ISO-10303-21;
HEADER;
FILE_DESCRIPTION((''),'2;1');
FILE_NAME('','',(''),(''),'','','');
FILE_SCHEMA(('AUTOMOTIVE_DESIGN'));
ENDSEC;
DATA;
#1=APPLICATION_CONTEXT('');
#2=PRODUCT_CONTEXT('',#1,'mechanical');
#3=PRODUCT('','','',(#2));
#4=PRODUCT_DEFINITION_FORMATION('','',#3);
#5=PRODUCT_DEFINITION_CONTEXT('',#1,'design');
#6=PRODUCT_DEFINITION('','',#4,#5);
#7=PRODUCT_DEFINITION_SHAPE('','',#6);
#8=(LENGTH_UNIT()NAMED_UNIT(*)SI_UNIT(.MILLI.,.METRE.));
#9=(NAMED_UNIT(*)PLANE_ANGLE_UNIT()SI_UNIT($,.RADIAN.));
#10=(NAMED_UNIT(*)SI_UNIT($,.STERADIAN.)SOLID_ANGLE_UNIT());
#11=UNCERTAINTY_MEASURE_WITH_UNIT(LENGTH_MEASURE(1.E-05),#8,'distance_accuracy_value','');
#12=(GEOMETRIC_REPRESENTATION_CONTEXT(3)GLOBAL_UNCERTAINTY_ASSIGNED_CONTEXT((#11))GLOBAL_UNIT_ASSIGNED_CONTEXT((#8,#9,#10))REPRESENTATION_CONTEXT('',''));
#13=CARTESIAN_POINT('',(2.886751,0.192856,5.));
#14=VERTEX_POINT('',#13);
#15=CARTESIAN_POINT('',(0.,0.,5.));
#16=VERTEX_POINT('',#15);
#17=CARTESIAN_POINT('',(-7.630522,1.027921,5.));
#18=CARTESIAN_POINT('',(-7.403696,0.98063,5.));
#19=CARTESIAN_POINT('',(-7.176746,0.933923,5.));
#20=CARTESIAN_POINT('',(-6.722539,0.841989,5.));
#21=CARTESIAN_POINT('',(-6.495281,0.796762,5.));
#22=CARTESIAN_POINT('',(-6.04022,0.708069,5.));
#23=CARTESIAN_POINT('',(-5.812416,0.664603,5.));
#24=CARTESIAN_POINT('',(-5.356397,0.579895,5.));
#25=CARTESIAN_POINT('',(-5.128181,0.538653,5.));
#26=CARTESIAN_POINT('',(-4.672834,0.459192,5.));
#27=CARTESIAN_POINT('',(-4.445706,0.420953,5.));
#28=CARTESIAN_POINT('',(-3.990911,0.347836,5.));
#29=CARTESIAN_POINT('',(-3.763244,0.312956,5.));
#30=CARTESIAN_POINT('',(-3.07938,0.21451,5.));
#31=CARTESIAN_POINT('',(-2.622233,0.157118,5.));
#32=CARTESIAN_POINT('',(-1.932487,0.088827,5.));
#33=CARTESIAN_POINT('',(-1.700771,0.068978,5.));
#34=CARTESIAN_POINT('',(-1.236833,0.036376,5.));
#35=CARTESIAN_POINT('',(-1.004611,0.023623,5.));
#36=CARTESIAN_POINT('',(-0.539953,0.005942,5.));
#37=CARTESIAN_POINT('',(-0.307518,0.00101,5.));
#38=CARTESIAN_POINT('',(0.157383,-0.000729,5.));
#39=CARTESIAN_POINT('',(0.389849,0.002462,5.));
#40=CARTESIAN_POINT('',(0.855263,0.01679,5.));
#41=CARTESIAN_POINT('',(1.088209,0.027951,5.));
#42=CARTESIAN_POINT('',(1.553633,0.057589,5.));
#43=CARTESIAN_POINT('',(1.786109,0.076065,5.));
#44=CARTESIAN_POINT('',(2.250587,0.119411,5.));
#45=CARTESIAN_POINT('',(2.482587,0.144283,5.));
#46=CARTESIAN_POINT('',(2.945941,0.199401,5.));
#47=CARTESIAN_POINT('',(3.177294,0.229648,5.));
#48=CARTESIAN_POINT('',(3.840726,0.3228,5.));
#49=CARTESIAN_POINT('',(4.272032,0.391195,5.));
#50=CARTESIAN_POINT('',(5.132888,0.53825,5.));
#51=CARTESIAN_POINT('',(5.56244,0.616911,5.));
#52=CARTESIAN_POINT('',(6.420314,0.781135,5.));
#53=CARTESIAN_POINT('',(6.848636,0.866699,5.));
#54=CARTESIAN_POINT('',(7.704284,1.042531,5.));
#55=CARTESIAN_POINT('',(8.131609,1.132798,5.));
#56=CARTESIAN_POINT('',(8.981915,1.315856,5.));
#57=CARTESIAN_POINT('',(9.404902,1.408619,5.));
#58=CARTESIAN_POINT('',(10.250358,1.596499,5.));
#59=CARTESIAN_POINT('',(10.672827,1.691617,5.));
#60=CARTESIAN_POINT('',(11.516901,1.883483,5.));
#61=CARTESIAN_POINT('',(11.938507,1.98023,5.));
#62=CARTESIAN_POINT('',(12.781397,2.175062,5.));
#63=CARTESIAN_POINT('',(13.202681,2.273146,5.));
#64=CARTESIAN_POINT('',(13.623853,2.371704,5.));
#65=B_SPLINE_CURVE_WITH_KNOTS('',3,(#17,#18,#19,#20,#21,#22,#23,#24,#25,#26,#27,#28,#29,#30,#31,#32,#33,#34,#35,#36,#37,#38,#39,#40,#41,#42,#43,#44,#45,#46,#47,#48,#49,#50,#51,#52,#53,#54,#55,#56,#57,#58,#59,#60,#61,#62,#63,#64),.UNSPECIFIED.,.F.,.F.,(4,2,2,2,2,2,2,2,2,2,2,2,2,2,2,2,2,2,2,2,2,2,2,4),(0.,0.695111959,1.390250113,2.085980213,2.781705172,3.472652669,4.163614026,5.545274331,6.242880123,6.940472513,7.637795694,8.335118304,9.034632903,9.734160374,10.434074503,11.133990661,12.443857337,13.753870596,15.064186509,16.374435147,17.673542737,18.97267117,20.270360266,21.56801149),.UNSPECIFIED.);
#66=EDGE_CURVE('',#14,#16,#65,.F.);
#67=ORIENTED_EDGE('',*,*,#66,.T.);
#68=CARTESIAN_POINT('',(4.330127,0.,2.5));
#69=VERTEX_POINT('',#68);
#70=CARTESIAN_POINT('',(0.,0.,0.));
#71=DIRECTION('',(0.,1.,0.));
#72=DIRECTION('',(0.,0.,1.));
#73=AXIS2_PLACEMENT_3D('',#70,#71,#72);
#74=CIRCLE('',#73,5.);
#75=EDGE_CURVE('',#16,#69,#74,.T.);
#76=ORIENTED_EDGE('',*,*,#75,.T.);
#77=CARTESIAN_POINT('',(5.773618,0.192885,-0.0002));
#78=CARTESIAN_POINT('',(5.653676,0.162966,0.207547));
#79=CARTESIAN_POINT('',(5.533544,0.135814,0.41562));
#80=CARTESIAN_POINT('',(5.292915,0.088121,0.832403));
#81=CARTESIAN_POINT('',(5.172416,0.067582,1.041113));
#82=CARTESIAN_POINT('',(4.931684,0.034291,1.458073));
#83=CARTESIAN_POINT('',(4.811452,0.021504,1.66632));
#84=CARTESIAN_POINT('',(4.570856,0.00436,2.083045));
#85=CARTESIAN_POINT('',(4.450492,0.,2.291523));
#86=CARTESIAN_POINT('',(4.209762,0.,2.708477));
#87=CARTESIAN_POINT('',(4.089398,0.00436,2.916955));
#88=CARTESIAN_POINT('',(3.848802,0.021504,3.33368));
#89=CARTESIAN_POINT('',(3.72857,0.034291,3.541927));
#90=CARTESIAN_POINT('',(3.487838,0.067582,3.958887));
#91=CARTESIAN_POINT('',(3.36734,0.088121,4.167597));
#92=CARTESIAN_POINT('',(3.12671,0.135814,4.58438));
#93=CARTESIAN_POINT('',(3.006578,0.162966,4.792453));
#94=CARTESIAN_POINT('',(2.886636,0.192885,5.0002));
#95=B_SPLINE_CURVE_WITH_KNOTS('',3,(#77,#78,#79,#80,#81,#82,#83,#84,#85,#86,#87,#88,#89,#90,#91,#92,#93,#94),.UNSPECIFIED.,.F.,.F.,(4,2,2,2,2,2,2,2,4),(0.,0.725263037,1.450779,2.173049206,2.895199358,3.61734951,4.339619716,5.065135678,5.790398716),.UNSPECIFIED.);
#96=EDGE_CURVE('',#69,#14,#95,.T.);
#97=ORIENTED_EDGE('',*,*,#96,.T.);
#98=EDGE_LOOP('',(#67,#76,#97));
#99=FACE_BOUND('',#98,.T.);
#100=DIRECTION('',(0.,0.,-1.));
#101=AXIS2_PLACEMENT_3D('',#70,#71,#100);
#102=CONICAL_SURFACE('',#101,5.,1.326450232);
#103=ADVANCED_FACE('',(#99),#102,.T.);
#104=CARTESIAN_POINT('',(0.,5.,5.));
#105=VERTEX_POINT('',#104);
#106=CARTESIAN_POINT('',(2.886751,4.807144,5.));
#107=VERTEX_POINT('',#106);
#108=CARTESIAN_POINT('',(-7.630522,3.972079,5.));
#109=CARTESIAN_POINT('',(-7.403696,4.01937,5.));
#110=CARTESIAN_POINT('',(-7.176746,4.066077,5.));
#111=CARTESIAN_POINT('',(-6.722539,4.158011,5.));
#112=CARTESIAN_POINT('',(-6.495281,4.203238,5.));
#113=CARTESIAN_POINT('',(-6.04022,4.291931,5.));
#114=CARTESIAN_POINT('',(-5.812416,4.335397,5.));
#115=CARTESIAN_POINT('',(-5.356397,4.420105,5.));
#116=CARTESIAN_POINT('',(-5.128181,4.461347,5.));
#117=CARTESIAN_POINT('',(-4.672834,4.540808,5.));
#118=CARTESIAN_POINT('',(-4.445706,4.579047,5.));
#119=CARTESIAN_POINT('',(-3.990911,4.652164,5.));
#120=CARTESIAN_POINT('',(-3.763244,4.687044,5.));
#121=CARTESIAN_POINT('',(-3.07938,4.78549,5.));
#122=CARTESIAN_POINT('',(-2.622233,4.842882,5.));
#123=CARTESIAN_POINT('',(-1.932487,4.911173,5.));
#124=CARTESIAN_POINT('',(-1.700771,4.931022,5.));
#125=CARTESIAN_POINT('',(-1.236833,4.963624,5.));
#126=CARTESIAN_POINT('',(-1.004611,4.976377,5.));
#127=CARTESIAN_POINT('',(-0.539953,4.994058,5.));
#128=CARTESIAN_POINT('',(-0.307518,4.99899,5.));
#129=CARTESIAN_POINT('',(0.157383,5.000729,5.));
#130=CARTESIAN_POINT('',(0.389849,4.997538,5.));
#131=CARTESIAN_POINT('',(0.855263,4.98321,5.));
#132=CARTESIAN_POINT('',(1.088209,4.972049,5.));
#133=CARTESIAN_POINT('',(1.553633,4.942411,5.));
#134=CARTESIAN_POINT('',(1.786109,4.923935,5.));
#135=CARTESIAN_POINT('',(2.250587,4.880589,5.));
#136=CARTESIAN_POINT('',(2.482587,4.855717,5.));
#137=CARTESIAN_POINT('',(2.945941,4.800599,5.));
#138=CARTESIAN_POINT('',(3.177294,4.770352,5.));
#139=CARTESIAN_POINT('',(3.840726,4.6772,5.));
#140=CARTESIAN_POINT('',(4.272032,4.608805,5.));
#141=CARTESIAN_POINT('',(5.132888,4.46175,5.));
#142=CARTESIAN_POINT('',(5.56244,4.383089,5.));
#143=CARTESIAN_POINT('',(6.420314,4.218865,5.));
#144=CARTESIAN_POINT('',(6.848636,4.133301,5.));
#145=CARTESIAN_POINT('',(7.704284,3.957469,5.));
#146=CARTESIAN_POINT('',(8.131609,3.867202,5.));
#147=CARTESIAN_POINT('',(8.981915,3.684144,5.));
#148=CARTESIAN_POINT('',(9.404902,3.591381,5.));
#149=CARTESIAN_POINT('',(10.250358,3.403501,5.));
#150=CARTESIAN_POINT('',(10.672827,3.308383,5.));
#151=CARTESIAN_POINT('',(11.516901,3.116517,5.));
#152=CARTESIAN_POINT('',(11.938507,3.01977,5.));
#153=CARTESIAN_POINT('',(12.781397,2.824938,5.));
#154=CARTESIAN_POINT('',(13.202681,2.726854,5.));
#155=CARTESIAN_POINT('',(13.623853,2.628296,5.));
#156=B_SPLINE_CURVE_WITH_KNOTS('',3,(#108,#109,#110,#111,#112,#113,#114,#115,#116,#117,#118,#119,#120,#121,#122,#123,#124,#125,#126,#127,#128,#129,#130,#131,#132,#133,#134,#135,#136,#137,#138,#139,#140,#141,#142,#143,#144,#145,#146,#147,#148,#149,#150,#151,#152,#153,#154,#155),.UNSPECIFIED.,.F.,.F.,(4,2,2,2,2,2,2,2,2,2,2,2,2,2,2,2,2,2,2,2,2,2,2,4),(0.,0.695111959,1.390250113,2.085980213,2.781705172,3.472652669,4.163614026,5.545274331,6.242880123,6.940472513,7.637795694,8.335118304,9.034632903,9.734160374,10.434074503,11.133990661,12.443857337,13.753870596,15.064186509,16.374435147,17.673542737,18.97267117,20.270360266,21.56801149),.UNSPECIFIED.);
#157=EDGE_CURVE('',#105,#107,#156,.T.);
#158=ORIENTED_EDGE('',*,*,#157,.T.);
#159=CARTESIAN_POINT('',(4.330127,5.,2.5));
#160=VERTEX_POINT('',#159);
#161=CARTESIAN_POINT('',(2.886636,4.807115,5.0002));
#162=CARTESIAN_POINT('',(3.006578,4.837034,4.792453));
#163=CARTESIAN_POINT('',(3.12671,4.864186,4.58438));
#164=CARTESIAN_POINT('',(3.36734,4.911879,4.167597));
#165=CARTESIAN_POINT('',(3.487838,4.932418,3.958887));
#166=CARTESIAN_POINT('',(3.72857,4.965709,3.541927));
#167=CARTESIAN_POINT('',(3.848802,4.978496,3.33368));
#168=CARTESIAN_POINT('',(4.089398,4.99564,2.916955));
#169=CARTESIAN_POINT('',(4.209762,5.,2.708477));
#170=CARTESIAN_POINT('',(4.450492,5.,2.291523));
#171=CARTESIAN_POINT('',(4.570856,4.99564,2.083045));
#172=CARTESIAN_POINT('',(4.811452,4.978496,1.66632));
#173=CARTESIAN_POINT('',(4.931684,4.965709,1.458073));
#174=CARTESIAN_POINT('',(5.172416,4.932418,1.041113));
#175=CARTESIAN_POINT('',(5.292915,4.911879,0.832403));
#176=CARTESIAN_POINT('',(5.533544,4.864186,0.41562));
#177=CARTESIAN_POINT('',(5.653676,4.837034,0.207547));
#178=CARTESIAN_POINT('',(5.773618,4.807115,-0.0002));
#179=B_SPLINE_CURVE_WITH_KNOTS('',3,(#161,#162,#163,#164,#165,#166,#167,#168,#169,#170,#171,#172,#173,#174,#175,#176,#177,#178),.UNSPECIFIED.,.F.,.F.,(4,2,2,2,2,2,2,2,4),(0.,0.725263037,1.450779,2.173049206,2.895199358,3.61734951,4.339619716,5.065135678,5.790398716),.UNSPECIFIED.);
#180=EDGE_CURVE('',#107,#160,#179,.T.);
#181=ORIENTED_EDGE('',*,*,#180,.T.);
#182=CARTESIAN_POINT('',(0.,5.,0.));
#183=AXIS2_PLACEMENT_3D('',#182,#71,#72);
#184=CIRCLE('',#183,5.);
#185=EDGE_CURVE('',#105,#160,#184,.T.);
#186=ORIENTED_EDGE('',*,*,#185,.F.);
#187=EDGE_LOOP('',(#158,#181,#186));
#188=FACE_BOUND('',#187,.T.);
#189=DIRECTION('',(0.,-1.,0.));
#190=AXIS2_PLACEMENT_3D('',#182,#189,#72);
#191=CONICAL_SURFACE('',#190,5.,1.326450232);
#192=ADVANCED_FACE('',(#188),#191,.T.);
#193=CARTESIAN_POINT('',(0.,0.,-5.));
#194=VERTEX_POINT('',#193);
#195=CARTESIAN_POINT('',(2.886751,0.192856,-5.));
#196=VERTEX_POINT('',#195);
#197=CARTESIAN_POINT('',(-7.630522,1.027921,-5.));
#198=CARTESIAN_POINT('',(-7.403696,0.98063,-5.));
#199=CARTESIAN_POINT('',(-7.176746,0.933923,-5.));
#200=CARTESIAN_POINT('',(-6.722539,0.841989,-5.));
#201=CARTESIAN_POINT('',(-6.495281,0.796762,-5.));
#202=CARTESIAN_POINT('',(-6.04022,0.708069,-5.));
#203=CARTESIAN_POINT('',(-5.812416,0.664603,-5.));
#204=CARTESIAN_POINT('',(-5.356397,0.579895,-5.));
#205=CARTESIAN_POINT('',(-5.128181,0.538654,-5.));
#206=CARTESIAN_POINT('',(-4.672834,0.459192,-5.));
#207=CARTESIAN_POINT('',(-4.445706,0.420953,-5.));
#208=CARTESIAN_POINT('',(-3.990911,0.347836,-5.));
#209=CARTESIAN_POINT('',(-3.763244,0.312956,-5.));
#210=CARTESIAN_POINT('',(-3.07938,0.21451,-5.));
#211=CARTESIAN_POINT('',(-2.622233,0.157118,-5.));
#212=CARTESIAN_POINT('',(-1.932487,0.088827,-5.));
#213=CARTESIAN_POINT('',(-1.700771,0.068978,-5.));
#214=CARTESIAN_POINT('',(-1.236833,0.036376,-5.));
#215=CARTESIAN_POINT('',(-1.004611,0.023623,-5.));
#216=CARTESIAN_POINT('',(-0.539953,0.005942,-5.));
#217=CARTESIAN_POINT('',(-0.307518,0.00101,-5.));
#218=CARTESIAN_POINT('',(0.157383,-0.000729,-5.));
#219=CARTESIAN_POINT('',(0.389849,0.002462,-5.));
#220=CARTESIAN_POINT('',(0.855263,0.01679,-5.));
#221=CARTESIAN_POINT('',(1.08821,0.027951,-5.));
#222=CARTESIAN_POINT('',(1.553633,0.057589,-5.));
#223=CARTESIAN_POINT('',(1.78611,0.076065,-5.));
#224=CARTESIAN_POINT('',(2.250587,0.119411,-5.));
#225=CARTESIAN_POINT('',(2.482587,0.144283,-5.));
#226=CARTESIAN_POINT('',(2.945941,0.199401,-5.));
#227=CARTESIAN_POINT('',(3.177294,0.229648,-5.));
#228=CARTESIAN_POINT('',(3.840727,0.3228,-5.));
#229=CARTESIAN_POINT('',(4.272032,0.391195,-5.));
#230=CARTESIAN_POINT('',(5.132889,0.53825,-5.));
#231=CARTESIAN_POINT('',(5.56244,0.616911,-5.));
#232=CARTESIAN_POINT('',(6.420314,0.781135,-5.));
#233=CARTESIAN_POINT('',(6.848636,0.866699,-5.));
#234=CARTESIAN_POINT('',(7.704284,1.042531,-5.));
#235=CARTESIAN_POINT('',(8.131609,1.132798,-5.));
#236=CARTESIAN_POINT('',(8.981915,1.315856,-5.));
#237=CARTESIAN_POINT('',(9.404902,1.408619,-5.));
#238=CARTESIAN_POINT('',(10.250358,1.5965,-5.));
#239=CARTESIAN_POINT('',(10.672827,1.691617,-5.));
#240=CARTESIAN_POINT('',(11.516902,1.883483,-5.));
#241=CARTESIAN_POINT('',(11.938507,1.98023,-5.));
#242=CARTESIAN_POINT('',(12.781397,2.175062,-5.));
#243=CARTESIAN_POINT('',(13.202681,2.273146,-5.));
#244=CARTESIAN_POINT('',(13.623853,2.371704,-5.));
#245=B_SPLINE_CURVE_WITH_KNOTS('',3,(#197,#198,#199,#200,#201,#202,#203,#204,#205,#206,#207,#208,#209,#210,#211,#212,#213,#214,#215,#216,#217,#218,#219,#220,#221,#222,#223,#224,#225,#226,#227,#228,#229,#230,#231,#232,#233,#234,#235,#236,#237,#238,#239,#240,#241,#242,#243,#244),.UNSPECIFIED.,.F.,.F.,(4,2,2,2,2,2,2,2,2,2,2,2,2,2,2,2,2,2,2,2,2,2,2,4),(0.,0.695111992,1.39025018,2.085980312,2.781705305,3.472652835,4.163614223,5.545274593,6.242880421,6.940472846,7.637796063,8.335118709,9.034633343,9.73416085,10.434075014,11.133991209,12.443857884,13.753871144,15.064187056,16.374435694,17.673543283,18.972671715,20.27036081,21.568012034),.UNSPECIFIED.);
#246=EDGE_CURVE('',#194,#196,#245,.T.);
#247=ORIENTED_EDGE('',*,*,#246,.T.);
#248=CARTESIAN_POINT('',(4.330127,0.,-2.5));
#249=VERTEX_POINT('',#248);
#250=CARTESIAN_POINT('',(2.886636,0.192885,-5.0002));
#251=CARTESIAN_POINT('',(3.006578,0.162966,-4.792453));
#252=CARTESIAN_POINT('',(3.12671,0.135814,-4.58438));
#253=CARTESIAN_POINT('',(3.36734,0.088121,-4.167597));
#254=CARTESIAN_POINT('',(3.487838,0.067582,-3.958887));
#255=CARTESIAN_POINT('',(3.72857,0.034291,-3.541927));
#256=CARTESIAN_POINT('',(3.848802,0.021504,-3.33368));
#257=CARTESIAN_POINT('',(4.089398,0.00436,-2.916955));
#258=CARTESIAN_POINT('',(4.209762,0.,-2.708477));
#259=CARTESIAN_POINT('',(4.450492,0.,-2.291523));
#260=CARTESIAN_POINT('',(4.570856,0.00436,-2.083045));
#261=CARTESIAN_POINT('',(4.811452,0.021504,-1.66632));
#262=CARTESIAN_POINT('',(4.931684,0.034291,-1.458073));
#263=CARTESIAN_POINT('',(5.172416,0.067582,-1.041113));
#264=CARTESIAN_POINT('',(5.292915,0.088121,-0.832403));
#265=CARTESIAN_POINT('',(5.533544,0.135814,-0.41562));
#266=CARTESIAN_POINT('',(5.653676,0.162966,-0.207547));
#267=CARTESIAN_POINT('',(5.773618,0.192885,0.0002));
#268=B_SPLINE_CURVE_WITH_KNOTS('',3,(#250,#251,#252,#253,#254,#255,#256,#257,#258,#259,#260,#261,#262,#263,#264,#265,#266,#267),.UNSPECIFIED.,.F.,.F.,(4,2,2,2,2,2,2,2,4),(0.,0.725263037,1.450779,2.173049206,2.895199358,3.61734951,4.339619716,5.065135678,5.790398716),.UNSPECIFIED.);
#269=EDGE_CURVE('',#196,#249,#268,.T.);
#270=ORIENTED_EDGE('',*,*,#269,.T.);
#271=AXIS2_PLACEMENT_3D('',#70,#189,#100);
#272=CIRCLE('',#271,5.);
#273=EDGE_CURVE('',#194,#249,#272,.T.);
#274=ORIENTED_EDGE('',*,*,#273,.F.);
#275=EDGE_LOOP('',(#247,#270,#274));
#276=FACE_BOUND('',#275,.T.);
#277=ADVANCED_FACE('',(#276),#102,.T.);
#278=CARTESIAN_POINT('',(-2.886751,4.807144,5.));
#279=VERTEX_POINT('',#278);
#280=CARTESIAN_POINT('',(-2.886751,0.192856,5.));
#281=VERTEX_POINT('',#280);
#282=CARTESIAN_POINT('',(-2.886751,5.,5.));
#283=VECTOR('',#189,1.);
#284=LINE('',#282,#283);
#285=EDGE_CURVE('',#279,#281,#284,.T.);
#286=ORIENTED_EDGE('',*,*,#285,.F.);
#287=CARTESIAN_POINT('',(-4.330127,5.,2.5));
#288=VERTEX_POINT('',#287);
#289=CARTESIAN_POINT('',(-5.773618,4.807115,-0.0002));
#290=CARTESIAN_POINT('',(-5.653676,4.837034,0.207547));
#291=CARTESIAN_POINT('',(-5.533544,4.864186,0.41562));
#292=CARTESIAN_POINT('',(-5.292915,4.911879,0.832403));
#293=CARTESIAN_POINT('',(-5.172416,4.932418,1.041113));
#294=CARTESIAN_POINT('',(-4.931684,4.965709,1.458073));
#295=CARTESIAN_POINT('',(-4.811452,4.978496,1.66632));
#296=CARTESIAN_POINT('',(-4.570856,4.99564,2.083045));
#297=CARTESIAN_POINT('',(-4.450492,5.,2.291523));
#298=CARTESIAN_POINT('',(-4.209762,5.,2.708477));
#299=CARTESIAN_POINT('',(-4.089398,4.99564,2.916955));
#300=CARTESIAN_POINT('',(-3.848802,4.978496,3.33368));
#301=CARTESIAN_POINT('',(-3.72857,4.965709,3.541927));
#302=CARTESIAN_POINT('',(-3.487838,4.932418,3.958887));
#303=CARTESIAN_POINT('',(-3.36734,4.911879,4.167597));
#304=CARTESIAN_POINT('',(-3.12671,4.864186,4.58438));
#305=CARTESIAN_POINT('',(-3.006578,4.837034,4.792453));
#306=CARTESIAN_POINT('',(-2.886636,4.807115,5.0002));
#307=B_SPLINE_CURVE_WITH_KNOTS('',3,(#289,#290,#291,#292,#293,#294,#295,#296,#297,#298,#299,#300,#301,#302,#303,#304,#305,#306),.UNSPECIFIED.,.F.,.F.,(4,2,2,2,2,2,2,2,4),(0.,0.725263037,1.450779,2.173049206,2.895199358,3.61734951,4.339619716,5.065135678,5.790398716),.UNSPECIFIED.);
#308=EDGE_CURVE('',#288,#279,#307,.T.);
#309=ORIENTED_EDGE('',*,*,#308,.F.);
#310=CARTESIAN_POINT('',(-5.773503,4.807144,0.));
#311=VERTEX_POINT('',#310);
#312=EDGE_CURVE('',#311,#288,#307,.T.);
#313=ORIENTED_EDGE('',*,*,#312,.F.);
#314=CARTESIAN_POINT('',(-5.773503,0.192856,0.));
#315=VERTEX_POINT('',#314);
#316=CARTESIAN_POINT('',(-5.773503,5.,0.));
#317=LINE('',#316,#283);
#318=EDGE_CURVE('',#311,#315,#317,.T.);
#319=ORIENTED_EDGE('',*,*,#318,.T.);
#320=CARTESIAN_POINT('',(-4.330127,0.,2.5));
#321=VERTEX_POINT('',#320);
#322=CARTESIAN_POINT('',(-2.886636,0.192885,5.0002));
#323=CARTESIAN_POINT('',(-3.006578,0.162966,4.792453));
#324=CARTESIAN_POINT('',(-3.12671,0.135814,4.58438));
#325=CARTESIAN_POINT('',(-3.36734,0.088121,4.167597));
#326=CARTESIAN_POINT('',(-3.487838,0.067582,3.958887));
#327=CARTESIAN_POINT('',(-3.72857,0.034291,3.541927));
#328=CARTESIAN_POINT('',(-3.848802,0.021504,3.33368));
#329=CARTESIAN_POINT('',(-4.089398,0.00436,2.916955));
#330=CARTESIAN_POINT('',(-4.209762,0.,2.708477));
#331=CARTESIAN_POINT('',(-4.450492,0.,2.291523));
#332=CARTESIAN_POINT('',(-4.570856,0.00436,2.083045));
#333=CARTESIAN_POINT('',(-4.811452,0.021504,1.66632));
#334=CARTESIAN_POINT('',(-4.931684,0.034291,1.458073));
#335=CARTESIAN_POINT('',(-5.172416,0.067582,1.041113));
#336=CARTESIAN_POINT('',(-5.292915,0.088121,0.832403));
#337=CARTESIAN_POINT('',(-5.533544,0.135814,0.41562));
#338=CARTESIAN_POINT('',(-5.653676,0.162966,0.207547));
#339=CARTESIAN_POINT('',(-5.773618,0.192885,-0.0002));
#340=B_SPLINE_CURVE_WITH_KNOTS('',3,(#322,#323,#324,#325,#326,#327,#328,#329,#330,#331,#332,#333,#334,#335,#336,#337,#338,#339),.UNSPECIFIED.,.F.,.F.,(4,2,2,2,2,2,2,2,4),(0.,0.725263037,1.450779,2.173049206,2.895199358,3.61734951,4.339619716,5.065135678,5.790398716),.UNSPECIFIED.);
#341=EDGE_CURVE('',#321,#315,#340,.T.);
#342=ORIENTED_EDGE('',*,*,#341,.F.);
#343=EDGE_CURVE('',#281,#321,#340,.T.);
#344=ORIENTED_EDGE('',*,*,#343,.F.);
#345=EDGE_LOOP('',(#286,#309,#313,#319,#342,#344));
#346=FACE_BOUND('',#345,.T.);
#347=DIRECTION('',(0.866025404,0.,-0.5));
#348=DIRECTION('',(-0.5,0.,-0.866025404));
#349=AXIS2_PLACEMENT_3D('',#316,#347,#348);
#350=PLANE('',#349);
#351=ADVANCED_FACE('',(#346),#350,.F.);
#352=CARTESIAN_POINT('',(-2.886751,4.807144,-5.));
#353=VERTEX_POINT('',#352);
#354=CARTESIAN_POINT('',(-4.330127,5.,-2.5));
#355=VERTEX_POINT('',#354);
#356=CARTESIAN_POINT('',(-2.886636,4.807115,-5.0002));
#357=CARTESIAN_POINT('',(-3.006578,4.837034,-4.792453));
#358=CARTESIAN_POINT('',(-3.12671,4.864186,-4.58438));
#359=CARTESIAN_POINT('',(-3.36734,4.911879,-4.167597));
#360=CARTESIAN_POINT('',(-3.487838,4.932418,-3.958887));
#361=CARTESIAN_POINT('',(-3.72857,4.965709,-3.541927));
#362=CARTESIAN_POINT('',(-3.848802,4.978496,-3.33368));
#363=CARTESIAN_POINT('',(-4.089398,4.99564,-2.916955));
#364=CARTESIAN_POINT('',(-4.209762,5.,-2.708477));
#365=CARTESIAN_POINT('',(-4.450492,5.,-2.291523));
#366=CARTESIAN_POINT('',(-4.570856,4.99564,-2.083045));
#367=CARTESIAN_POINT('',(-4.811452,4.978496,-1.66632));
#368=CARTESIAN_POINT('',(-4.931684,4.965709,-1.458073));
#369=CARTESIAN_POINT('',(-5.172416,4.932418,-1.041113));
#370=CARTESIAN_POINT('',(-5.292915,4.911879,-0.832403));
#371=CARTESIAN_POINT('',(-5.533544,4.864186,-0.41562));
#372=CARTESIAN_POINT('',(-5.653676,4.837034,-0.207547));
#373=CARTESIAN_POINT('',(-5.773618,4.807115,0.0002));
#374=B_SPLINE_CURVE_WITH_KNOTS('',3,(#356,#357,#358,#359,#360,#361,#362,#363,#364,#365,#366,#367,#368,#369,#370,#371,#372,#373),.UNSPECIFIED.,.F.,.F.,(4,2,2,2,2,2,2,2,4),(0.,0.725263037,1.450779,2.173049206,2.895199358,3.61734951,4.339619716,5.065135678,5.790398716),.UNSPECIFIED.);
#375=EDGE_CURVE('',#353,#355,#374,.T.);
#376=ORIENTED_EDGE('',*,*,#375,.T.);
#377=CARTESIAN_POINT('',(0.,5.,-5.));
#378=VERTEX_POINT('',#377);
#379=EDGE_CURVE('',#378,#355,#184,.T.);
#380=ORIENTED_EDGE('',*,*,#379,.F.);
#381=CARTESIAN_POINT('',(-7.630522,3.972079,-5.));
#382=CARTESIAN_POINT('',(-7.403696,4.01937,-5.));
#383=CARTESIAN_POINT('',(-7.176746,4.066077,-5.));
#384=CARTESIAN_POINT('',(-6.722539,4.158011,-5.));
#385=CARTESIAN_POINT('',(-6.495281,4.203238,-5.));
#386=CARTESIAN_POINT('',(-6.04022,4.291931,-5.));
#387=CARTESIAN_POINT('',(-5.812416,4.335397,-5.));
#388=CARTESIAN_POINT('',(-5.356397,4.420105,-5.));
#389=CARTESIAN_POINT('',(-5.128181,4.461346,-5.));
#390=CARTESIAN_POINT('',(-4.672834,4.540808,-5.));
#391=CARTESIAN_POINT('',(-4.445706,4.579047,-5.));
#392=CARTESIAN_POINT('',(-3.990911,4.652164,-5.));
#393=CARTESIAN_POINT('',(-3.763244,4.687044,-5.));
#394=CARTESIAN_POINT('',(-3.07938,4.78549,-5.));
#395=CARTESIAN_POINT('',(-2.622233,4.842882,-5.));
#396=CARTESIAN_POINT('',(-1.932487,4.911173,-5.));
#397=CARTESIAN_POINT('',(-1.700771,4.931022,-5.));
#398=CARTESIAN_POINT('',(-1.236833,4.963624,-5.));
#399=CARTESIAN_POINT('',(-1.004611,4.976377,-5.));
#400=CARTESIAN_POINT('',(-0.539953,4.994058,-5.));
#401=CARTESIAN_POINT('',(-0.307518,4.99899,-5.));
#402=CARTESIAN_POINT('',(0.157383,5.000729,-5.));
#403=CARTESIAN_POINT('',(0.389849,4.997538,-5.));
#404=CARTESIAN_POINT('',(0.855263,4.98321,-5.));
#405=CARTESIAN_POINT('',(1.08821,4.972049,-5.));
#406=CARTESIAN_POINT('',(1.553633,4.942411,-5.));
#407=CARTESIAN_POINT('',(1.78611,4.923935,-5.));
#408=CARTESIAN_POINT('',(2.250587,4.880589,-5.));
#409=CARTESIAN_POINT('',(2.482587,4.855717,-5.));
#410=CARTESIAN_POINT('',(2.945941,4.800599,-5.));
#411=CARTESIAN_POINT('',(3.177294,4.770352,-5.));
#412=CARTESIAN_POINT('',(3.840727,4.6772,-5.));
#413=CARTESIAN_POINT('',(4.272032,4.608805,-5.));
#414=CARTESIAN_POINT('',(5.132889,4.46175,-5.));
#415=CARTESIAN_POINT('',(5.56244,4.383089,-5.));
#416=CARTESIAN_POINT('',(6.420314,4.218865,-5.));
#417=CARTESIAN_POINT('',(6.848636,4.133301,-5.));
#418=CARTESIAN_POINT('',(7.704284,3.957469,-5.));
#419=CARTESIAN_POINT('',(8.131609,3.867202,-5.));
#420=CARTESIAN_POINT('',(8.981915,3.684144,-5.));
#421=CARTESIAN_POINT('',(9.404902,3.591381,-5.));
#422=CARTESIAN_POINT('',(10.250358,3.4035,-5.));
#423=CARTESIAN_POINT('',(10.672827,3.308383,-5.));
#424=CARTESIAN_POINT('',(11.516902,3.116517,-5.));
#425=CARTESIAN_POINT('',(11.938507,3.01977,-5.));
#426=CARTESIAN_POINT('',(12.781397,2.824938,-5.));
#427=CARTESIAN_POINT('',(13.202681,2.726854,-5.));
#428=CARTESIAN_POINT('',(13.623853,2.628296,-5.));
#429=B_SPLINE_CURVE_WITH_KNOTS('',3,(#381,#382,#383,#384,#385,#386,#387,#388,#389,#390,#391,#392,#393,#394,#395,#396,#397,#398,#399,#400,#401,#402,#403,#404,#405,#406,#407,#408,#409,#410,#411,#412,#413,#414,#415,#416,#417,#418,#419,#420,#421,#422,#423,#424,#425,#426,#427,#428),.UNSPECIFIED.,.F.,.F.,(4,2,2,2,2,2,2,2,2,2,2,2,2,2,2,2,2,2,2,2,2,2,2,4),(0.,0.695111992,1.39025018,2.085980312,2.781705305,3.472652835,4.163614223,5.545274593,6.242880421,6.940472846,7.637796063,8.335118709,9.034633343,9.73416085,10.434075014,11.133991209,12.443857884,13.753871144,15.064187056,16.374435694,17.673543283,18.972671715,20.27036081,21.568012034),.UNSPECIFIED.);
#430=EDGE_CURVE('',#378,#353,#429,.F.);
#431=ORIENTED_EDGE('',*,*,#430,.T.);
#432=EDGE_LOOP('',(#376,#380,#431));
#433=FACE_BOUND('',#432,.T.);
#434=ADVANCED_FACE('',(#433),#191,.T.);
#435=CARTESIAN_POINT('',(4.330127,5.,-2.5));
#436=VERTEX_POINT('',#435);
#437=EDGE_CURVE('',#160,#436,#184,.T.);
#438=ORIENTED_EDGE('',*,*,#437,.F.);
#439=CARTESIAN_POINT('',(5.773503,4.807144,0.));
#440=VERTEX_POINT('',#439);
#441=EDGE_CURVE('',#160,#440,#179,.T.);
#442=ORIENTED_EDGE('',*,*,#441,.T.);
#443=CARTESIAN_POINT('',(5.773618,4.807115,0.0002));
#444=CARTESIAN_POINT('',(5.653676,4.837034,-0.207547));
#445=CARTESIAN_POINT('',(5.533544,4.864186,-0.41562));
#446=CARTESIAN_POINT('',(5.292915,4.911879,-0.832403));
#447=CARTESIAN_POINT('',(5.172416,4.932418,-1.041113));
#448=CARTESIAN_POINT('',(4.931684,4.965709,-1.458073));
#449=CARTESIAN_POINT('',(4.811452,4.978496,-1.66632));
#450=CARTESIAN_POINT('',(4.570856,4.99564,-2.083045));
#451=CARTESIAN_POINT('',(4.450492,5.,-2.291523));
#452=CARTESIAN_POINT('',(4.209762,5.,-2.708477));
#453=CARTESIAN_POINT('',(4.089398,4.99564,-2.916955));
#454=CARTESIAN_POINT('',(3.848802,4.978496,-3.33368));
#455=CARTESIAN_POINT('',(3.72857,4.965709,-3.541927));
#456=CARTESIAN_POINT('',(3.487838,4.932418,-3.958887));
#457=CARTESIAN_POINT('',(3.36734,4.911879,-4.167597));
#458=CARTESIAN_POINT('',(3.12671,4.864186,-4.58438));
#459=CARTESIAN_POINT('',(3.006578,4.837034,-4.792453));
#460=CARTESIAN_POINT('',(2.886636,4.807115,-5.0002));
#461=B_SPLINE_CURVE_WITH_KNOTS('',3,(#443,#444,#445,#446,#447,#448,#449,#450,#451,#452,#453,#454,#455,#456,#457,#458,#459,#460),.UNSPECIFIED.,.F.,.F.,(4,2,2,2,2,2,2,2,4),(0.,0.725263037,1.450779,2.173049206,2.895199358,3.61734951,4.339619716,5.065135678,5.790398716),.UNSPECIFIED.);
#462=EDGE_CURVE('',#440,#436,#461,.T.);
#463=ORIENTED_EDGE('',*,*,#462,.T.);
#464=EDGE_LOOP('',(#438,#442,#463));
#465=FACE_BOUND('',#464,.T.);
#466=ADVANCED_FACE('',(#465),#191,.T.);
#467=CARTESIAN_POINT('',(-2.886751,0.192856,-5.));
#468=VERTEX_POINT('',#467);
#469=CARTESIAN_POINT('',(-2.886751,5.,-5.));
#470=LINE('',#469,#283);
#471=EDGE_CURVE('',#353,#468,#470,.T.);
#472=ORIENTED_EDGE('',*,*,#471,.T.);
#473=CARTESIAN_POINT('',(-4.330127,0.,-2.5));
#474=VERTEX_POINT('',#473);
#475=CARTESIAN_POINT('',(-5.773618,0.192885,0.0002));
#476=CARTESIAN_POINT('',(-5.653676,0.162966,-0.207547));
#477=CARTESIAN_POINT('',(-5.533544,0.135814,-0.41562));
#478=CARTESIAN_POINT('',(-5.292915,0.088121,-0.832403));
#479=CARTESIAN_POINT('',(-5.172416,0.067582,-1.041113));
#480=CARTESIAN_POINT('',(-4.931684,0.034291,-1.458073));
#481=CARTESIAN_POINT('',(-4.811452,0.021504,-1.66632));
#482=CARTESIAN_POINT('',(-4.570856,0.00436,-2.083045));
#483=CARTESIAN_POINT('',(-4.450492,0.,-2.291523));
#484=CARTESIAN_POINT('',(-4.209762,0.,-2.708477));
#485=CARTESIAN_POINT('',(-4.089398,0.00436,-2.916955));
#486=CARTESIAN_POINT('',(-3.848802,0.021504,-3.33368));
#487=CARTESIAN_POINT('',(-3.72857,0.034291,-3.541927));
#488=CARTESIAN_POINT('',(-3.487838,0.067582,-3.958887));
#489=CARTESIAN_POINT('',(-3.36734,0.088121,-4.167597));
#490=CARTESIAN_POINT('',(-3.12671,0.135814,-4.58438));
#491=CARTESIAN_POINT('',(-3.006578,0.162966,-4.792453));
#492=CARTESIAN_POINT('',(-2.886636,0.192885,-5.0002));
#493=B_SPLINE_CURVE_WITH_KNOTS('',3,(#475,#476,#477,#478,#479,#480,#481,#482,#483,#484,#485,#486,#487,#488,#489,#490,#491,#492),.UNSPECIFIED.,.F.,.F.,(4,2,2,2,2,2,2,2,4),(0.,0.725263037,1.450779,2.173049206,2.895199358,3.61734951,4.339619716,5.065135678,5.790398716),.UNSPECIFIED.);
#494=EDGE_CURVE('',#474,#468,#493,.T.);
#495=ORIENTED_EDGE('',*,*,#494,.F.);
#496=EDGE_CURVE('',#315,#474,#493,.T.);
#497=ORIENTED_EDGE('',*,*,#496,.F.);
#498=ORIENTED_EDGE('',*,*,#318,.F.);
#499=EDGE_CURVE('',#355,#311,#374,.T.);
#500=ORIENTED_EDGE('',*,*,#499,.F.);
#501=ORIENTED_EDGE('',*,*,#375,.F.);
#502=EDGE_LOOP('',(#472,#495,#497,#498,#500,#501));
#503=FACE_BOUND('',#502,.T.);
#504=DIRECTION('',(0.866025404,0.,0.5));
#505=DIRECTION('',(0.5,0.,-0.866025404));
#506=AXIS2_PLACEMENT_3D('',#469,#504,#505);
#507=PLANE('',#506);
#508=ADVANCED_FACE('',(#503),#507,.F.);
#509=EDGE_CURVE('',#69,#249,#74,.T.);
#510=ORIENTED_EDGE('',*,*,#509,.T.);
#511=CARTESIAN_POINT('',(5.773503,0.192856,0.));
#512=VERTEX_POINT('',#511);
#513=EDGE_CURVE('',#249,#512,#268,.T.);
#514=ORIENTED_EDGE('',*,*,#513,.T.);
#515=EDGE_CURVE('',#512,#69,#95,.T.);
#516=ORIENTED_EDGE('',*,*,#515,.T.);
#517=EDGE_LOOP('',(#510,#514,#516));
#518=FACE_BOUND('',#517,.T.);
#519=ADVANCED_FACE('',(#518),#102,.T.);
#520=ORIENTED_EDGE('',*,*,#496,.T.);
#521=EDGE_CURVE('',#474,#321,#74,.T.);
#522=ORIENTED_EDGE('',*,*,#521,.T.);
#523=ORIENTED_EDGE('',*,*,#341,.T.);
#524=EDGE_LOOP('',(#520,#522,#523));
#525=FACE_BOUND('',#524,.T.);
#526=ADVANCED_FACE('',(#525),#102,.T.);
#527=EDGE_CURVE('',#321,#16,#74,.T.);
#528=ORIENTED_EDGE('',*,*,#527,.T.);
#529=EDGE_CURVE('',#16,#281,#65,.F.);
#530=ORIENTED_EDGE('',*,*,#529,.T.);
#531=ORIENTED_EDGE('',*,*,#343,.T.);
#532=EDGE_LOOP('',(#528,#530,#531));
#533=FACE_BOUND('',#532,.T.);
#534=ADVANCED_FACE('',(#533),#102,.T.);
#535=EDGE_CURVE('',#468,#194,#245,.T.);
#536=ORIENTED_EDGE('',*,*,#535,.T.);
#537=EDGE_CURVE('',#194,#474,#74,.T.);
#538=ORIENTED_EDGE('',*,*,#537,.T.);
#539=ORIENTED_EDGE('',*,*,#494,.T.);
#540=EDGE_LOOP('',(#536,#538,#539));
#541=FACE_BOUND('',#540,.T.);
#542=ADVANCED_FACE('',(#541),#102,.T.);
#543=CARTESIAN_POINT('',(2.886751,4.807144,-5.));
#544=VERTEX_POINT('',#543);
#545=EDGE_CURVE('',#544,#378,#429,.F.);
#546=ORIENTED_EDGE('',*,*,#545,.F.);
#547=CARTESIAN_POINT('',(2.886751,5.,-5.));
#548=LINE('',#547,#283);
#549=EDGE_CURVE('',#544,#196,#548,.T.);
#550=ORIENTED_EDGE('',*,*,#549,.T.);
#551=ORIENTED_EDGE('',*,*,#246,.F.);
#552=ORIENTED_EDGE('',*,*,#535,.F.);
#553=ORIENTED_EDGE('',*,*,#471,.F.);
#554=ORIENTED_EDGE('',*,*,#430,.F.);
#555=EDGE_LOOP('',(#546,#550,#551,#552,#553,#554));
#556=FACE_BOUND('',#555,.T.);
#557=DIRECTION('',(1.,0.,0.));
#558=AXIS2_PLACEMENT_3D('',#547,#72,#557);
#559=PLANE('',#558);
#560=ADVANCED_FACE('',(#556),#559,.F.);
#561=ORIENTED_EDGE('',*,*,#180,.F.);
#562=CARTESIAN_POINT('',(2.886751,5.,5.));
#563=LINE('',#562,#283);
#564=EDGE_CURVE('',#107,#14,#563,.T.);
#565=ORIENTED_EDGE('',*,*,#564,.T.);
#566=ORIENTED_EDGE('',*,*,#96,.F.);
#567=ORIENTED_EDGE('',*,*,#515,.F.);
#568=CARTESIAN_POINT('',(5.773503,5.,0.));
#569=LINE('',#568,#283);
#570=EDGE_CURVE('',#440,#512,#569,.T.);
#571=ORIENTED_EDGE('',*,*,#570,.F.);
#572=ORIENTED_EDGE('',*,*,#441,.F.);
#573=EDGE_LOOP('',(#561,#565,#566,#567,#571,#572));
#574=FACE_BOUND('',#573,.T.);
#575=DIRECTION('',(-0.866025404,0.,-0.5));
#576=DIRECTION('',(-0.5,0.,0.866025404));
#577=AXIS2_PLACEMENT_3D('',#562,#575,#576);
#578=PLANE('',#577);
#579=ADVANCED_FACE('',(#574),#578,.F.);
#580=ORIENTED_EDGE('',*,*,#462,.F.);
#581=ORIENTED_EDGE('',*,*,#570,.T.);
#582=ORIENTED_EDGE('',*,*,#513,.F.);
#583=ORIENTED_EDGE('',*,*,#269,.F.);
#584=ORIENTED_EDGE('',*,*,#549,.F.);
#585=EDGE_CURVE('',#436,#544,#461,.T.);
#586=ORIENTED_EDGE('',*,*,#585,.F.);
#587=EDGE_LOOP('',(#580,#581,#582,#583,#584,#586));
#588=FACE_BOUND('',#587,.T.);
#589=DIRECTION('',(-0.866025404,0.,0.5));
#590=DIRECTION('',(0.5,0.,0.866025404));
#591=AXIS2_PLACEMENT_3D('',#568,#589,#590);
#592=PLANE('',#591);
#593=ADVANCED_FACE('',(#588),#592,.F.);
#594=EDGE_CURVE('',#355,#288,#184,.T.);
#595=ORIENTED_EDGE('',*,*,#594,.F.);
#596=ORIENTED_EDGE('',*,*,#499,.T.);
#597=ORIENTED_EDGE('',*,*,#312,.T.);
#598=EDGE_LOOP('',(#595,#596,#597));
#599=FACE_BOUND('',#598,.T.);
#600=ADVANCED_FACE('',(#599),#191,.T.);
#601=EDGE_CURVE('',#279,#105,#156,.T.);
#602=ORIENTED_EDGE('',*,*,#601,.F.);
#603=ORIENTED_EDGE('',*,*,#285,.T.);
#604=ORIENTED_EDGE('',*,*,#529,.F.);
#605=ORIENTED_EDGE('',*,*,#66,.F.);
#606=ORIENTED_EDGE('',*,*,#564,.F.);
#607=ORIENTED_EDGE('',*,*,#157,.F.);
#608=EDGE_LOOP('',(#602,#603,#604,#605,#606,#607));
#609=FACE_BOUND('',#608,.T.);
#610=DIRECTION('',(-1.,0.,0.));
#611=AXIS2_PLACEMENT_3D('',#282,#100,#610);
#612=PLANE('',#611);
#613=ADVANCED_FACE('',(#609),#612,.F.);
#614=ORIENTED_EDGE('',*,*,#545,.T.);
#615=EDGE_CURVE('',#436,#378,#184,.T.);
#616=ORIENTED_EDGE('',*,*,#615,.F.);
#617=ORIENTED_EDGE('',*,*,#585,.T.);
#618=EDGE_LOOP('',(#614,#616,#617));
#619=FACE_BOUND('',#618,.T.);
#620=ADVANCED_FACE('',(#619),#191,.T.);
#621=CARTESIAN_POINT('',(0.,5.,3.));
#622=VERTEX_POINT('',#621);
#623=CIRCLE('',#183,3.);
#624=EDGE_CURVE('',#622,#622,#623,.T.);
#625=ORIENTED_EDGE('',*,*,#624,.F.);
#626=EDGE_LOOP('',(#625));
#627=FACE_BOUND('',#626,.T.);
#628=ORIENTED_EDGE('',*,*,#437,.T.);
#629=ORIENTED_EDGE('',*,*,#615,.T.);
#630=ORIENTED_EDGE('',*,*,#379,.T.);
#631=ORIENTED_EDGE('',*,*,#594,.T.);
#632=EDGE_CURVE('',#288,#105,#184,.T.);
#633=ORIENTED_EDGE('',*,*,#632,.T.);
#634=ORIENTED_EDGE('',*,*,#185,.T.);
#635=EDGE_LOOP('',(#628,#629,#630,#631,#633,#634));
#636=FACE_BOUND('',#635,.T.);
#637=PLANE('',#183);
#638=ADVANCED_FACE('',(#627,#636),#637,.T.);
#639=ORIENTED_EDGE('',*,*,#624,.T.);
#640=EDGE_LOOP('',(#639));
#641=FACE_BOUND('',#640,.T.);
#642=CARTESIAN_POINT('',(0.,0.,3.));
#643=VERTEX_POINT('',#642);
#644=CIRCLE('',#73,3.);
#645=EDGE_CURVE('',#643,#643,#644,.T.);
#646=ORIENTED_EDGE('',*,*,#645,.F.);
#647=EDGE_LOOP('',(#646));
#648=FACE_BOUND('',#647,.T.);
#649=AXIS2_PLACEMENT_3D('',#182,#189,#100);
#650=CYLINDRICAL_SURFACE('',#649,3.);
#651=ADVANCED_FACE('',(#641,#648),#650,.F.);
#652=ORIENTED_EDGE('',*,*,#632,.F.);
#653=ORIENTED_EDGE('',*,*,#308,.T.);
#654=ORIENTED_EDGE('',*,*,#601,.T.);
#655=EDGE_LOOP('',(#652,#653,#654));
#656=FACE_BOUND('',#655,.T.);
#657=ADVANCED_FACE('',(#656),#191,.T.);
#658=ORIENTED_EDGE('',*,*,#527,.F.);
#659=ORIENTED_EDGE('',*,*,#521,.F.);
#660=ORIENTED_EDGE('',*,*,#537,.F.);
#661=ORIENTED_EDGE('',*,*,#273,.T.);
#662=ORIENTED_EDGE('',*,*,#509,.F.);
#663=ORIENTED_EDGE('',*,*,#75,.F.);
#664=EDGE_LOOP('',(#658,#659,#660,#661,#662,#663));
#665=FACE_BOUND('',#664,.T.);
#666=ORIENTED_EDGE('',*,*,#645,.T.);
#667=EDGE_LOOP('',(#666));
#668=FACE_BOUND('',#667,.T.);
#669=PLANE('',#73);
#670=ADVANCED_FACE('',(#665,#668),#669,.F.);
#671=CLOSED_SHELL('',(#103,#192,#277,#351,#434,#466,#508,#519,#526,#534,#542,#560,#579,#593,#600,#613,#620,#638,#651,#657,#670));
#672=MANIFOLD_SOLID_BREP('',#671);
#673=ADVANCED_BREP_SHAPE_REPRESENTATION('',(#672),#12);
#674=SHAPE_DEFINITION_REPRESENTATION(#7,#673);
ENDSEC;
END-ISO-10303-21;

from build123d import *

# Parameters (mm, degrees)
SKETCH1_R           = 3
BOSS_EXTRUDE1_DEPTH = 5
SKETCH2_OUTSIDE_W   = 18.366
SKETCH2_OUTSIDE_H   = 16.818
SKETCH2_OUTSIDE_R   = 5
CUT_EXTRUDE2_DEPTH  = 0.2
CUT_EXTRUDE2_TAPER  = 76
SKETCH3_OUTSIDE_W   = 18.366
SKETCH3_OUTSIDE_H   = 16.818
SKETCH3_OUTSIDE_R   = 5
CUT_EXTRUDE3_DEPTH  = 0.2
CUT_EXTRUDE3_TAPER  = 76


with BuildPart() as part:
    # Sketch1 → Boss-Extrude1 (new body)
    with BuildSketch(Plane(origin=(0, 0, 0), x_dir=(1, 0, 0), z_dir=(0, 1, 0))):
        Polygon((5.773502692, 0), (2.886751346, 5), (-2.886751346, 5), (-5.773502692, 0), (-2.886751346, -5), (2.886751346, -5), align=None)
        Circle(SKETCH1_R, mode=Mode.SUBTRACT)
    extrude(amount=BOSS_EXTRUDE1_DEPTH)

    # Sketch2 outside → Cut-Extrude2 (cut)
    with BuildSketch(Plane(origin=(0, 5, 0), x_dir=(1, 0, 0), z_dir=(0, 1, 0))):
        Rectangle(SKETCH2_OUTSIDE_W, SKETCH2_OUTSIDE_H)
        Circle(SKETCH2_OUTSIDE_R, mode=Mode.SUBTRACT)
    extrude(amount=-CUT_EXTRUDE2_DEPTH, taper=CUT_EXTRUDE2_TAPER, mode=Mode.SUBTRACT)

    # Sketch3 outside → Cut-Extrude3 (cut)
    with BuildSketch(Plane.XZ):
        Rectangle(SKETCH3_OUTSIDE_W, SKETCH3_OUTSIDE_H)
        Circle(SKETCH3_OUTSIDE_R, mode=Mode.SUBTRACT)
    extrude(amount=-CUT_EXTRUDE3_DEPTH, taper=CUT_EXTRUDE3_TAPER, mode=Mode.SUBTRACT)


solid = part.part
